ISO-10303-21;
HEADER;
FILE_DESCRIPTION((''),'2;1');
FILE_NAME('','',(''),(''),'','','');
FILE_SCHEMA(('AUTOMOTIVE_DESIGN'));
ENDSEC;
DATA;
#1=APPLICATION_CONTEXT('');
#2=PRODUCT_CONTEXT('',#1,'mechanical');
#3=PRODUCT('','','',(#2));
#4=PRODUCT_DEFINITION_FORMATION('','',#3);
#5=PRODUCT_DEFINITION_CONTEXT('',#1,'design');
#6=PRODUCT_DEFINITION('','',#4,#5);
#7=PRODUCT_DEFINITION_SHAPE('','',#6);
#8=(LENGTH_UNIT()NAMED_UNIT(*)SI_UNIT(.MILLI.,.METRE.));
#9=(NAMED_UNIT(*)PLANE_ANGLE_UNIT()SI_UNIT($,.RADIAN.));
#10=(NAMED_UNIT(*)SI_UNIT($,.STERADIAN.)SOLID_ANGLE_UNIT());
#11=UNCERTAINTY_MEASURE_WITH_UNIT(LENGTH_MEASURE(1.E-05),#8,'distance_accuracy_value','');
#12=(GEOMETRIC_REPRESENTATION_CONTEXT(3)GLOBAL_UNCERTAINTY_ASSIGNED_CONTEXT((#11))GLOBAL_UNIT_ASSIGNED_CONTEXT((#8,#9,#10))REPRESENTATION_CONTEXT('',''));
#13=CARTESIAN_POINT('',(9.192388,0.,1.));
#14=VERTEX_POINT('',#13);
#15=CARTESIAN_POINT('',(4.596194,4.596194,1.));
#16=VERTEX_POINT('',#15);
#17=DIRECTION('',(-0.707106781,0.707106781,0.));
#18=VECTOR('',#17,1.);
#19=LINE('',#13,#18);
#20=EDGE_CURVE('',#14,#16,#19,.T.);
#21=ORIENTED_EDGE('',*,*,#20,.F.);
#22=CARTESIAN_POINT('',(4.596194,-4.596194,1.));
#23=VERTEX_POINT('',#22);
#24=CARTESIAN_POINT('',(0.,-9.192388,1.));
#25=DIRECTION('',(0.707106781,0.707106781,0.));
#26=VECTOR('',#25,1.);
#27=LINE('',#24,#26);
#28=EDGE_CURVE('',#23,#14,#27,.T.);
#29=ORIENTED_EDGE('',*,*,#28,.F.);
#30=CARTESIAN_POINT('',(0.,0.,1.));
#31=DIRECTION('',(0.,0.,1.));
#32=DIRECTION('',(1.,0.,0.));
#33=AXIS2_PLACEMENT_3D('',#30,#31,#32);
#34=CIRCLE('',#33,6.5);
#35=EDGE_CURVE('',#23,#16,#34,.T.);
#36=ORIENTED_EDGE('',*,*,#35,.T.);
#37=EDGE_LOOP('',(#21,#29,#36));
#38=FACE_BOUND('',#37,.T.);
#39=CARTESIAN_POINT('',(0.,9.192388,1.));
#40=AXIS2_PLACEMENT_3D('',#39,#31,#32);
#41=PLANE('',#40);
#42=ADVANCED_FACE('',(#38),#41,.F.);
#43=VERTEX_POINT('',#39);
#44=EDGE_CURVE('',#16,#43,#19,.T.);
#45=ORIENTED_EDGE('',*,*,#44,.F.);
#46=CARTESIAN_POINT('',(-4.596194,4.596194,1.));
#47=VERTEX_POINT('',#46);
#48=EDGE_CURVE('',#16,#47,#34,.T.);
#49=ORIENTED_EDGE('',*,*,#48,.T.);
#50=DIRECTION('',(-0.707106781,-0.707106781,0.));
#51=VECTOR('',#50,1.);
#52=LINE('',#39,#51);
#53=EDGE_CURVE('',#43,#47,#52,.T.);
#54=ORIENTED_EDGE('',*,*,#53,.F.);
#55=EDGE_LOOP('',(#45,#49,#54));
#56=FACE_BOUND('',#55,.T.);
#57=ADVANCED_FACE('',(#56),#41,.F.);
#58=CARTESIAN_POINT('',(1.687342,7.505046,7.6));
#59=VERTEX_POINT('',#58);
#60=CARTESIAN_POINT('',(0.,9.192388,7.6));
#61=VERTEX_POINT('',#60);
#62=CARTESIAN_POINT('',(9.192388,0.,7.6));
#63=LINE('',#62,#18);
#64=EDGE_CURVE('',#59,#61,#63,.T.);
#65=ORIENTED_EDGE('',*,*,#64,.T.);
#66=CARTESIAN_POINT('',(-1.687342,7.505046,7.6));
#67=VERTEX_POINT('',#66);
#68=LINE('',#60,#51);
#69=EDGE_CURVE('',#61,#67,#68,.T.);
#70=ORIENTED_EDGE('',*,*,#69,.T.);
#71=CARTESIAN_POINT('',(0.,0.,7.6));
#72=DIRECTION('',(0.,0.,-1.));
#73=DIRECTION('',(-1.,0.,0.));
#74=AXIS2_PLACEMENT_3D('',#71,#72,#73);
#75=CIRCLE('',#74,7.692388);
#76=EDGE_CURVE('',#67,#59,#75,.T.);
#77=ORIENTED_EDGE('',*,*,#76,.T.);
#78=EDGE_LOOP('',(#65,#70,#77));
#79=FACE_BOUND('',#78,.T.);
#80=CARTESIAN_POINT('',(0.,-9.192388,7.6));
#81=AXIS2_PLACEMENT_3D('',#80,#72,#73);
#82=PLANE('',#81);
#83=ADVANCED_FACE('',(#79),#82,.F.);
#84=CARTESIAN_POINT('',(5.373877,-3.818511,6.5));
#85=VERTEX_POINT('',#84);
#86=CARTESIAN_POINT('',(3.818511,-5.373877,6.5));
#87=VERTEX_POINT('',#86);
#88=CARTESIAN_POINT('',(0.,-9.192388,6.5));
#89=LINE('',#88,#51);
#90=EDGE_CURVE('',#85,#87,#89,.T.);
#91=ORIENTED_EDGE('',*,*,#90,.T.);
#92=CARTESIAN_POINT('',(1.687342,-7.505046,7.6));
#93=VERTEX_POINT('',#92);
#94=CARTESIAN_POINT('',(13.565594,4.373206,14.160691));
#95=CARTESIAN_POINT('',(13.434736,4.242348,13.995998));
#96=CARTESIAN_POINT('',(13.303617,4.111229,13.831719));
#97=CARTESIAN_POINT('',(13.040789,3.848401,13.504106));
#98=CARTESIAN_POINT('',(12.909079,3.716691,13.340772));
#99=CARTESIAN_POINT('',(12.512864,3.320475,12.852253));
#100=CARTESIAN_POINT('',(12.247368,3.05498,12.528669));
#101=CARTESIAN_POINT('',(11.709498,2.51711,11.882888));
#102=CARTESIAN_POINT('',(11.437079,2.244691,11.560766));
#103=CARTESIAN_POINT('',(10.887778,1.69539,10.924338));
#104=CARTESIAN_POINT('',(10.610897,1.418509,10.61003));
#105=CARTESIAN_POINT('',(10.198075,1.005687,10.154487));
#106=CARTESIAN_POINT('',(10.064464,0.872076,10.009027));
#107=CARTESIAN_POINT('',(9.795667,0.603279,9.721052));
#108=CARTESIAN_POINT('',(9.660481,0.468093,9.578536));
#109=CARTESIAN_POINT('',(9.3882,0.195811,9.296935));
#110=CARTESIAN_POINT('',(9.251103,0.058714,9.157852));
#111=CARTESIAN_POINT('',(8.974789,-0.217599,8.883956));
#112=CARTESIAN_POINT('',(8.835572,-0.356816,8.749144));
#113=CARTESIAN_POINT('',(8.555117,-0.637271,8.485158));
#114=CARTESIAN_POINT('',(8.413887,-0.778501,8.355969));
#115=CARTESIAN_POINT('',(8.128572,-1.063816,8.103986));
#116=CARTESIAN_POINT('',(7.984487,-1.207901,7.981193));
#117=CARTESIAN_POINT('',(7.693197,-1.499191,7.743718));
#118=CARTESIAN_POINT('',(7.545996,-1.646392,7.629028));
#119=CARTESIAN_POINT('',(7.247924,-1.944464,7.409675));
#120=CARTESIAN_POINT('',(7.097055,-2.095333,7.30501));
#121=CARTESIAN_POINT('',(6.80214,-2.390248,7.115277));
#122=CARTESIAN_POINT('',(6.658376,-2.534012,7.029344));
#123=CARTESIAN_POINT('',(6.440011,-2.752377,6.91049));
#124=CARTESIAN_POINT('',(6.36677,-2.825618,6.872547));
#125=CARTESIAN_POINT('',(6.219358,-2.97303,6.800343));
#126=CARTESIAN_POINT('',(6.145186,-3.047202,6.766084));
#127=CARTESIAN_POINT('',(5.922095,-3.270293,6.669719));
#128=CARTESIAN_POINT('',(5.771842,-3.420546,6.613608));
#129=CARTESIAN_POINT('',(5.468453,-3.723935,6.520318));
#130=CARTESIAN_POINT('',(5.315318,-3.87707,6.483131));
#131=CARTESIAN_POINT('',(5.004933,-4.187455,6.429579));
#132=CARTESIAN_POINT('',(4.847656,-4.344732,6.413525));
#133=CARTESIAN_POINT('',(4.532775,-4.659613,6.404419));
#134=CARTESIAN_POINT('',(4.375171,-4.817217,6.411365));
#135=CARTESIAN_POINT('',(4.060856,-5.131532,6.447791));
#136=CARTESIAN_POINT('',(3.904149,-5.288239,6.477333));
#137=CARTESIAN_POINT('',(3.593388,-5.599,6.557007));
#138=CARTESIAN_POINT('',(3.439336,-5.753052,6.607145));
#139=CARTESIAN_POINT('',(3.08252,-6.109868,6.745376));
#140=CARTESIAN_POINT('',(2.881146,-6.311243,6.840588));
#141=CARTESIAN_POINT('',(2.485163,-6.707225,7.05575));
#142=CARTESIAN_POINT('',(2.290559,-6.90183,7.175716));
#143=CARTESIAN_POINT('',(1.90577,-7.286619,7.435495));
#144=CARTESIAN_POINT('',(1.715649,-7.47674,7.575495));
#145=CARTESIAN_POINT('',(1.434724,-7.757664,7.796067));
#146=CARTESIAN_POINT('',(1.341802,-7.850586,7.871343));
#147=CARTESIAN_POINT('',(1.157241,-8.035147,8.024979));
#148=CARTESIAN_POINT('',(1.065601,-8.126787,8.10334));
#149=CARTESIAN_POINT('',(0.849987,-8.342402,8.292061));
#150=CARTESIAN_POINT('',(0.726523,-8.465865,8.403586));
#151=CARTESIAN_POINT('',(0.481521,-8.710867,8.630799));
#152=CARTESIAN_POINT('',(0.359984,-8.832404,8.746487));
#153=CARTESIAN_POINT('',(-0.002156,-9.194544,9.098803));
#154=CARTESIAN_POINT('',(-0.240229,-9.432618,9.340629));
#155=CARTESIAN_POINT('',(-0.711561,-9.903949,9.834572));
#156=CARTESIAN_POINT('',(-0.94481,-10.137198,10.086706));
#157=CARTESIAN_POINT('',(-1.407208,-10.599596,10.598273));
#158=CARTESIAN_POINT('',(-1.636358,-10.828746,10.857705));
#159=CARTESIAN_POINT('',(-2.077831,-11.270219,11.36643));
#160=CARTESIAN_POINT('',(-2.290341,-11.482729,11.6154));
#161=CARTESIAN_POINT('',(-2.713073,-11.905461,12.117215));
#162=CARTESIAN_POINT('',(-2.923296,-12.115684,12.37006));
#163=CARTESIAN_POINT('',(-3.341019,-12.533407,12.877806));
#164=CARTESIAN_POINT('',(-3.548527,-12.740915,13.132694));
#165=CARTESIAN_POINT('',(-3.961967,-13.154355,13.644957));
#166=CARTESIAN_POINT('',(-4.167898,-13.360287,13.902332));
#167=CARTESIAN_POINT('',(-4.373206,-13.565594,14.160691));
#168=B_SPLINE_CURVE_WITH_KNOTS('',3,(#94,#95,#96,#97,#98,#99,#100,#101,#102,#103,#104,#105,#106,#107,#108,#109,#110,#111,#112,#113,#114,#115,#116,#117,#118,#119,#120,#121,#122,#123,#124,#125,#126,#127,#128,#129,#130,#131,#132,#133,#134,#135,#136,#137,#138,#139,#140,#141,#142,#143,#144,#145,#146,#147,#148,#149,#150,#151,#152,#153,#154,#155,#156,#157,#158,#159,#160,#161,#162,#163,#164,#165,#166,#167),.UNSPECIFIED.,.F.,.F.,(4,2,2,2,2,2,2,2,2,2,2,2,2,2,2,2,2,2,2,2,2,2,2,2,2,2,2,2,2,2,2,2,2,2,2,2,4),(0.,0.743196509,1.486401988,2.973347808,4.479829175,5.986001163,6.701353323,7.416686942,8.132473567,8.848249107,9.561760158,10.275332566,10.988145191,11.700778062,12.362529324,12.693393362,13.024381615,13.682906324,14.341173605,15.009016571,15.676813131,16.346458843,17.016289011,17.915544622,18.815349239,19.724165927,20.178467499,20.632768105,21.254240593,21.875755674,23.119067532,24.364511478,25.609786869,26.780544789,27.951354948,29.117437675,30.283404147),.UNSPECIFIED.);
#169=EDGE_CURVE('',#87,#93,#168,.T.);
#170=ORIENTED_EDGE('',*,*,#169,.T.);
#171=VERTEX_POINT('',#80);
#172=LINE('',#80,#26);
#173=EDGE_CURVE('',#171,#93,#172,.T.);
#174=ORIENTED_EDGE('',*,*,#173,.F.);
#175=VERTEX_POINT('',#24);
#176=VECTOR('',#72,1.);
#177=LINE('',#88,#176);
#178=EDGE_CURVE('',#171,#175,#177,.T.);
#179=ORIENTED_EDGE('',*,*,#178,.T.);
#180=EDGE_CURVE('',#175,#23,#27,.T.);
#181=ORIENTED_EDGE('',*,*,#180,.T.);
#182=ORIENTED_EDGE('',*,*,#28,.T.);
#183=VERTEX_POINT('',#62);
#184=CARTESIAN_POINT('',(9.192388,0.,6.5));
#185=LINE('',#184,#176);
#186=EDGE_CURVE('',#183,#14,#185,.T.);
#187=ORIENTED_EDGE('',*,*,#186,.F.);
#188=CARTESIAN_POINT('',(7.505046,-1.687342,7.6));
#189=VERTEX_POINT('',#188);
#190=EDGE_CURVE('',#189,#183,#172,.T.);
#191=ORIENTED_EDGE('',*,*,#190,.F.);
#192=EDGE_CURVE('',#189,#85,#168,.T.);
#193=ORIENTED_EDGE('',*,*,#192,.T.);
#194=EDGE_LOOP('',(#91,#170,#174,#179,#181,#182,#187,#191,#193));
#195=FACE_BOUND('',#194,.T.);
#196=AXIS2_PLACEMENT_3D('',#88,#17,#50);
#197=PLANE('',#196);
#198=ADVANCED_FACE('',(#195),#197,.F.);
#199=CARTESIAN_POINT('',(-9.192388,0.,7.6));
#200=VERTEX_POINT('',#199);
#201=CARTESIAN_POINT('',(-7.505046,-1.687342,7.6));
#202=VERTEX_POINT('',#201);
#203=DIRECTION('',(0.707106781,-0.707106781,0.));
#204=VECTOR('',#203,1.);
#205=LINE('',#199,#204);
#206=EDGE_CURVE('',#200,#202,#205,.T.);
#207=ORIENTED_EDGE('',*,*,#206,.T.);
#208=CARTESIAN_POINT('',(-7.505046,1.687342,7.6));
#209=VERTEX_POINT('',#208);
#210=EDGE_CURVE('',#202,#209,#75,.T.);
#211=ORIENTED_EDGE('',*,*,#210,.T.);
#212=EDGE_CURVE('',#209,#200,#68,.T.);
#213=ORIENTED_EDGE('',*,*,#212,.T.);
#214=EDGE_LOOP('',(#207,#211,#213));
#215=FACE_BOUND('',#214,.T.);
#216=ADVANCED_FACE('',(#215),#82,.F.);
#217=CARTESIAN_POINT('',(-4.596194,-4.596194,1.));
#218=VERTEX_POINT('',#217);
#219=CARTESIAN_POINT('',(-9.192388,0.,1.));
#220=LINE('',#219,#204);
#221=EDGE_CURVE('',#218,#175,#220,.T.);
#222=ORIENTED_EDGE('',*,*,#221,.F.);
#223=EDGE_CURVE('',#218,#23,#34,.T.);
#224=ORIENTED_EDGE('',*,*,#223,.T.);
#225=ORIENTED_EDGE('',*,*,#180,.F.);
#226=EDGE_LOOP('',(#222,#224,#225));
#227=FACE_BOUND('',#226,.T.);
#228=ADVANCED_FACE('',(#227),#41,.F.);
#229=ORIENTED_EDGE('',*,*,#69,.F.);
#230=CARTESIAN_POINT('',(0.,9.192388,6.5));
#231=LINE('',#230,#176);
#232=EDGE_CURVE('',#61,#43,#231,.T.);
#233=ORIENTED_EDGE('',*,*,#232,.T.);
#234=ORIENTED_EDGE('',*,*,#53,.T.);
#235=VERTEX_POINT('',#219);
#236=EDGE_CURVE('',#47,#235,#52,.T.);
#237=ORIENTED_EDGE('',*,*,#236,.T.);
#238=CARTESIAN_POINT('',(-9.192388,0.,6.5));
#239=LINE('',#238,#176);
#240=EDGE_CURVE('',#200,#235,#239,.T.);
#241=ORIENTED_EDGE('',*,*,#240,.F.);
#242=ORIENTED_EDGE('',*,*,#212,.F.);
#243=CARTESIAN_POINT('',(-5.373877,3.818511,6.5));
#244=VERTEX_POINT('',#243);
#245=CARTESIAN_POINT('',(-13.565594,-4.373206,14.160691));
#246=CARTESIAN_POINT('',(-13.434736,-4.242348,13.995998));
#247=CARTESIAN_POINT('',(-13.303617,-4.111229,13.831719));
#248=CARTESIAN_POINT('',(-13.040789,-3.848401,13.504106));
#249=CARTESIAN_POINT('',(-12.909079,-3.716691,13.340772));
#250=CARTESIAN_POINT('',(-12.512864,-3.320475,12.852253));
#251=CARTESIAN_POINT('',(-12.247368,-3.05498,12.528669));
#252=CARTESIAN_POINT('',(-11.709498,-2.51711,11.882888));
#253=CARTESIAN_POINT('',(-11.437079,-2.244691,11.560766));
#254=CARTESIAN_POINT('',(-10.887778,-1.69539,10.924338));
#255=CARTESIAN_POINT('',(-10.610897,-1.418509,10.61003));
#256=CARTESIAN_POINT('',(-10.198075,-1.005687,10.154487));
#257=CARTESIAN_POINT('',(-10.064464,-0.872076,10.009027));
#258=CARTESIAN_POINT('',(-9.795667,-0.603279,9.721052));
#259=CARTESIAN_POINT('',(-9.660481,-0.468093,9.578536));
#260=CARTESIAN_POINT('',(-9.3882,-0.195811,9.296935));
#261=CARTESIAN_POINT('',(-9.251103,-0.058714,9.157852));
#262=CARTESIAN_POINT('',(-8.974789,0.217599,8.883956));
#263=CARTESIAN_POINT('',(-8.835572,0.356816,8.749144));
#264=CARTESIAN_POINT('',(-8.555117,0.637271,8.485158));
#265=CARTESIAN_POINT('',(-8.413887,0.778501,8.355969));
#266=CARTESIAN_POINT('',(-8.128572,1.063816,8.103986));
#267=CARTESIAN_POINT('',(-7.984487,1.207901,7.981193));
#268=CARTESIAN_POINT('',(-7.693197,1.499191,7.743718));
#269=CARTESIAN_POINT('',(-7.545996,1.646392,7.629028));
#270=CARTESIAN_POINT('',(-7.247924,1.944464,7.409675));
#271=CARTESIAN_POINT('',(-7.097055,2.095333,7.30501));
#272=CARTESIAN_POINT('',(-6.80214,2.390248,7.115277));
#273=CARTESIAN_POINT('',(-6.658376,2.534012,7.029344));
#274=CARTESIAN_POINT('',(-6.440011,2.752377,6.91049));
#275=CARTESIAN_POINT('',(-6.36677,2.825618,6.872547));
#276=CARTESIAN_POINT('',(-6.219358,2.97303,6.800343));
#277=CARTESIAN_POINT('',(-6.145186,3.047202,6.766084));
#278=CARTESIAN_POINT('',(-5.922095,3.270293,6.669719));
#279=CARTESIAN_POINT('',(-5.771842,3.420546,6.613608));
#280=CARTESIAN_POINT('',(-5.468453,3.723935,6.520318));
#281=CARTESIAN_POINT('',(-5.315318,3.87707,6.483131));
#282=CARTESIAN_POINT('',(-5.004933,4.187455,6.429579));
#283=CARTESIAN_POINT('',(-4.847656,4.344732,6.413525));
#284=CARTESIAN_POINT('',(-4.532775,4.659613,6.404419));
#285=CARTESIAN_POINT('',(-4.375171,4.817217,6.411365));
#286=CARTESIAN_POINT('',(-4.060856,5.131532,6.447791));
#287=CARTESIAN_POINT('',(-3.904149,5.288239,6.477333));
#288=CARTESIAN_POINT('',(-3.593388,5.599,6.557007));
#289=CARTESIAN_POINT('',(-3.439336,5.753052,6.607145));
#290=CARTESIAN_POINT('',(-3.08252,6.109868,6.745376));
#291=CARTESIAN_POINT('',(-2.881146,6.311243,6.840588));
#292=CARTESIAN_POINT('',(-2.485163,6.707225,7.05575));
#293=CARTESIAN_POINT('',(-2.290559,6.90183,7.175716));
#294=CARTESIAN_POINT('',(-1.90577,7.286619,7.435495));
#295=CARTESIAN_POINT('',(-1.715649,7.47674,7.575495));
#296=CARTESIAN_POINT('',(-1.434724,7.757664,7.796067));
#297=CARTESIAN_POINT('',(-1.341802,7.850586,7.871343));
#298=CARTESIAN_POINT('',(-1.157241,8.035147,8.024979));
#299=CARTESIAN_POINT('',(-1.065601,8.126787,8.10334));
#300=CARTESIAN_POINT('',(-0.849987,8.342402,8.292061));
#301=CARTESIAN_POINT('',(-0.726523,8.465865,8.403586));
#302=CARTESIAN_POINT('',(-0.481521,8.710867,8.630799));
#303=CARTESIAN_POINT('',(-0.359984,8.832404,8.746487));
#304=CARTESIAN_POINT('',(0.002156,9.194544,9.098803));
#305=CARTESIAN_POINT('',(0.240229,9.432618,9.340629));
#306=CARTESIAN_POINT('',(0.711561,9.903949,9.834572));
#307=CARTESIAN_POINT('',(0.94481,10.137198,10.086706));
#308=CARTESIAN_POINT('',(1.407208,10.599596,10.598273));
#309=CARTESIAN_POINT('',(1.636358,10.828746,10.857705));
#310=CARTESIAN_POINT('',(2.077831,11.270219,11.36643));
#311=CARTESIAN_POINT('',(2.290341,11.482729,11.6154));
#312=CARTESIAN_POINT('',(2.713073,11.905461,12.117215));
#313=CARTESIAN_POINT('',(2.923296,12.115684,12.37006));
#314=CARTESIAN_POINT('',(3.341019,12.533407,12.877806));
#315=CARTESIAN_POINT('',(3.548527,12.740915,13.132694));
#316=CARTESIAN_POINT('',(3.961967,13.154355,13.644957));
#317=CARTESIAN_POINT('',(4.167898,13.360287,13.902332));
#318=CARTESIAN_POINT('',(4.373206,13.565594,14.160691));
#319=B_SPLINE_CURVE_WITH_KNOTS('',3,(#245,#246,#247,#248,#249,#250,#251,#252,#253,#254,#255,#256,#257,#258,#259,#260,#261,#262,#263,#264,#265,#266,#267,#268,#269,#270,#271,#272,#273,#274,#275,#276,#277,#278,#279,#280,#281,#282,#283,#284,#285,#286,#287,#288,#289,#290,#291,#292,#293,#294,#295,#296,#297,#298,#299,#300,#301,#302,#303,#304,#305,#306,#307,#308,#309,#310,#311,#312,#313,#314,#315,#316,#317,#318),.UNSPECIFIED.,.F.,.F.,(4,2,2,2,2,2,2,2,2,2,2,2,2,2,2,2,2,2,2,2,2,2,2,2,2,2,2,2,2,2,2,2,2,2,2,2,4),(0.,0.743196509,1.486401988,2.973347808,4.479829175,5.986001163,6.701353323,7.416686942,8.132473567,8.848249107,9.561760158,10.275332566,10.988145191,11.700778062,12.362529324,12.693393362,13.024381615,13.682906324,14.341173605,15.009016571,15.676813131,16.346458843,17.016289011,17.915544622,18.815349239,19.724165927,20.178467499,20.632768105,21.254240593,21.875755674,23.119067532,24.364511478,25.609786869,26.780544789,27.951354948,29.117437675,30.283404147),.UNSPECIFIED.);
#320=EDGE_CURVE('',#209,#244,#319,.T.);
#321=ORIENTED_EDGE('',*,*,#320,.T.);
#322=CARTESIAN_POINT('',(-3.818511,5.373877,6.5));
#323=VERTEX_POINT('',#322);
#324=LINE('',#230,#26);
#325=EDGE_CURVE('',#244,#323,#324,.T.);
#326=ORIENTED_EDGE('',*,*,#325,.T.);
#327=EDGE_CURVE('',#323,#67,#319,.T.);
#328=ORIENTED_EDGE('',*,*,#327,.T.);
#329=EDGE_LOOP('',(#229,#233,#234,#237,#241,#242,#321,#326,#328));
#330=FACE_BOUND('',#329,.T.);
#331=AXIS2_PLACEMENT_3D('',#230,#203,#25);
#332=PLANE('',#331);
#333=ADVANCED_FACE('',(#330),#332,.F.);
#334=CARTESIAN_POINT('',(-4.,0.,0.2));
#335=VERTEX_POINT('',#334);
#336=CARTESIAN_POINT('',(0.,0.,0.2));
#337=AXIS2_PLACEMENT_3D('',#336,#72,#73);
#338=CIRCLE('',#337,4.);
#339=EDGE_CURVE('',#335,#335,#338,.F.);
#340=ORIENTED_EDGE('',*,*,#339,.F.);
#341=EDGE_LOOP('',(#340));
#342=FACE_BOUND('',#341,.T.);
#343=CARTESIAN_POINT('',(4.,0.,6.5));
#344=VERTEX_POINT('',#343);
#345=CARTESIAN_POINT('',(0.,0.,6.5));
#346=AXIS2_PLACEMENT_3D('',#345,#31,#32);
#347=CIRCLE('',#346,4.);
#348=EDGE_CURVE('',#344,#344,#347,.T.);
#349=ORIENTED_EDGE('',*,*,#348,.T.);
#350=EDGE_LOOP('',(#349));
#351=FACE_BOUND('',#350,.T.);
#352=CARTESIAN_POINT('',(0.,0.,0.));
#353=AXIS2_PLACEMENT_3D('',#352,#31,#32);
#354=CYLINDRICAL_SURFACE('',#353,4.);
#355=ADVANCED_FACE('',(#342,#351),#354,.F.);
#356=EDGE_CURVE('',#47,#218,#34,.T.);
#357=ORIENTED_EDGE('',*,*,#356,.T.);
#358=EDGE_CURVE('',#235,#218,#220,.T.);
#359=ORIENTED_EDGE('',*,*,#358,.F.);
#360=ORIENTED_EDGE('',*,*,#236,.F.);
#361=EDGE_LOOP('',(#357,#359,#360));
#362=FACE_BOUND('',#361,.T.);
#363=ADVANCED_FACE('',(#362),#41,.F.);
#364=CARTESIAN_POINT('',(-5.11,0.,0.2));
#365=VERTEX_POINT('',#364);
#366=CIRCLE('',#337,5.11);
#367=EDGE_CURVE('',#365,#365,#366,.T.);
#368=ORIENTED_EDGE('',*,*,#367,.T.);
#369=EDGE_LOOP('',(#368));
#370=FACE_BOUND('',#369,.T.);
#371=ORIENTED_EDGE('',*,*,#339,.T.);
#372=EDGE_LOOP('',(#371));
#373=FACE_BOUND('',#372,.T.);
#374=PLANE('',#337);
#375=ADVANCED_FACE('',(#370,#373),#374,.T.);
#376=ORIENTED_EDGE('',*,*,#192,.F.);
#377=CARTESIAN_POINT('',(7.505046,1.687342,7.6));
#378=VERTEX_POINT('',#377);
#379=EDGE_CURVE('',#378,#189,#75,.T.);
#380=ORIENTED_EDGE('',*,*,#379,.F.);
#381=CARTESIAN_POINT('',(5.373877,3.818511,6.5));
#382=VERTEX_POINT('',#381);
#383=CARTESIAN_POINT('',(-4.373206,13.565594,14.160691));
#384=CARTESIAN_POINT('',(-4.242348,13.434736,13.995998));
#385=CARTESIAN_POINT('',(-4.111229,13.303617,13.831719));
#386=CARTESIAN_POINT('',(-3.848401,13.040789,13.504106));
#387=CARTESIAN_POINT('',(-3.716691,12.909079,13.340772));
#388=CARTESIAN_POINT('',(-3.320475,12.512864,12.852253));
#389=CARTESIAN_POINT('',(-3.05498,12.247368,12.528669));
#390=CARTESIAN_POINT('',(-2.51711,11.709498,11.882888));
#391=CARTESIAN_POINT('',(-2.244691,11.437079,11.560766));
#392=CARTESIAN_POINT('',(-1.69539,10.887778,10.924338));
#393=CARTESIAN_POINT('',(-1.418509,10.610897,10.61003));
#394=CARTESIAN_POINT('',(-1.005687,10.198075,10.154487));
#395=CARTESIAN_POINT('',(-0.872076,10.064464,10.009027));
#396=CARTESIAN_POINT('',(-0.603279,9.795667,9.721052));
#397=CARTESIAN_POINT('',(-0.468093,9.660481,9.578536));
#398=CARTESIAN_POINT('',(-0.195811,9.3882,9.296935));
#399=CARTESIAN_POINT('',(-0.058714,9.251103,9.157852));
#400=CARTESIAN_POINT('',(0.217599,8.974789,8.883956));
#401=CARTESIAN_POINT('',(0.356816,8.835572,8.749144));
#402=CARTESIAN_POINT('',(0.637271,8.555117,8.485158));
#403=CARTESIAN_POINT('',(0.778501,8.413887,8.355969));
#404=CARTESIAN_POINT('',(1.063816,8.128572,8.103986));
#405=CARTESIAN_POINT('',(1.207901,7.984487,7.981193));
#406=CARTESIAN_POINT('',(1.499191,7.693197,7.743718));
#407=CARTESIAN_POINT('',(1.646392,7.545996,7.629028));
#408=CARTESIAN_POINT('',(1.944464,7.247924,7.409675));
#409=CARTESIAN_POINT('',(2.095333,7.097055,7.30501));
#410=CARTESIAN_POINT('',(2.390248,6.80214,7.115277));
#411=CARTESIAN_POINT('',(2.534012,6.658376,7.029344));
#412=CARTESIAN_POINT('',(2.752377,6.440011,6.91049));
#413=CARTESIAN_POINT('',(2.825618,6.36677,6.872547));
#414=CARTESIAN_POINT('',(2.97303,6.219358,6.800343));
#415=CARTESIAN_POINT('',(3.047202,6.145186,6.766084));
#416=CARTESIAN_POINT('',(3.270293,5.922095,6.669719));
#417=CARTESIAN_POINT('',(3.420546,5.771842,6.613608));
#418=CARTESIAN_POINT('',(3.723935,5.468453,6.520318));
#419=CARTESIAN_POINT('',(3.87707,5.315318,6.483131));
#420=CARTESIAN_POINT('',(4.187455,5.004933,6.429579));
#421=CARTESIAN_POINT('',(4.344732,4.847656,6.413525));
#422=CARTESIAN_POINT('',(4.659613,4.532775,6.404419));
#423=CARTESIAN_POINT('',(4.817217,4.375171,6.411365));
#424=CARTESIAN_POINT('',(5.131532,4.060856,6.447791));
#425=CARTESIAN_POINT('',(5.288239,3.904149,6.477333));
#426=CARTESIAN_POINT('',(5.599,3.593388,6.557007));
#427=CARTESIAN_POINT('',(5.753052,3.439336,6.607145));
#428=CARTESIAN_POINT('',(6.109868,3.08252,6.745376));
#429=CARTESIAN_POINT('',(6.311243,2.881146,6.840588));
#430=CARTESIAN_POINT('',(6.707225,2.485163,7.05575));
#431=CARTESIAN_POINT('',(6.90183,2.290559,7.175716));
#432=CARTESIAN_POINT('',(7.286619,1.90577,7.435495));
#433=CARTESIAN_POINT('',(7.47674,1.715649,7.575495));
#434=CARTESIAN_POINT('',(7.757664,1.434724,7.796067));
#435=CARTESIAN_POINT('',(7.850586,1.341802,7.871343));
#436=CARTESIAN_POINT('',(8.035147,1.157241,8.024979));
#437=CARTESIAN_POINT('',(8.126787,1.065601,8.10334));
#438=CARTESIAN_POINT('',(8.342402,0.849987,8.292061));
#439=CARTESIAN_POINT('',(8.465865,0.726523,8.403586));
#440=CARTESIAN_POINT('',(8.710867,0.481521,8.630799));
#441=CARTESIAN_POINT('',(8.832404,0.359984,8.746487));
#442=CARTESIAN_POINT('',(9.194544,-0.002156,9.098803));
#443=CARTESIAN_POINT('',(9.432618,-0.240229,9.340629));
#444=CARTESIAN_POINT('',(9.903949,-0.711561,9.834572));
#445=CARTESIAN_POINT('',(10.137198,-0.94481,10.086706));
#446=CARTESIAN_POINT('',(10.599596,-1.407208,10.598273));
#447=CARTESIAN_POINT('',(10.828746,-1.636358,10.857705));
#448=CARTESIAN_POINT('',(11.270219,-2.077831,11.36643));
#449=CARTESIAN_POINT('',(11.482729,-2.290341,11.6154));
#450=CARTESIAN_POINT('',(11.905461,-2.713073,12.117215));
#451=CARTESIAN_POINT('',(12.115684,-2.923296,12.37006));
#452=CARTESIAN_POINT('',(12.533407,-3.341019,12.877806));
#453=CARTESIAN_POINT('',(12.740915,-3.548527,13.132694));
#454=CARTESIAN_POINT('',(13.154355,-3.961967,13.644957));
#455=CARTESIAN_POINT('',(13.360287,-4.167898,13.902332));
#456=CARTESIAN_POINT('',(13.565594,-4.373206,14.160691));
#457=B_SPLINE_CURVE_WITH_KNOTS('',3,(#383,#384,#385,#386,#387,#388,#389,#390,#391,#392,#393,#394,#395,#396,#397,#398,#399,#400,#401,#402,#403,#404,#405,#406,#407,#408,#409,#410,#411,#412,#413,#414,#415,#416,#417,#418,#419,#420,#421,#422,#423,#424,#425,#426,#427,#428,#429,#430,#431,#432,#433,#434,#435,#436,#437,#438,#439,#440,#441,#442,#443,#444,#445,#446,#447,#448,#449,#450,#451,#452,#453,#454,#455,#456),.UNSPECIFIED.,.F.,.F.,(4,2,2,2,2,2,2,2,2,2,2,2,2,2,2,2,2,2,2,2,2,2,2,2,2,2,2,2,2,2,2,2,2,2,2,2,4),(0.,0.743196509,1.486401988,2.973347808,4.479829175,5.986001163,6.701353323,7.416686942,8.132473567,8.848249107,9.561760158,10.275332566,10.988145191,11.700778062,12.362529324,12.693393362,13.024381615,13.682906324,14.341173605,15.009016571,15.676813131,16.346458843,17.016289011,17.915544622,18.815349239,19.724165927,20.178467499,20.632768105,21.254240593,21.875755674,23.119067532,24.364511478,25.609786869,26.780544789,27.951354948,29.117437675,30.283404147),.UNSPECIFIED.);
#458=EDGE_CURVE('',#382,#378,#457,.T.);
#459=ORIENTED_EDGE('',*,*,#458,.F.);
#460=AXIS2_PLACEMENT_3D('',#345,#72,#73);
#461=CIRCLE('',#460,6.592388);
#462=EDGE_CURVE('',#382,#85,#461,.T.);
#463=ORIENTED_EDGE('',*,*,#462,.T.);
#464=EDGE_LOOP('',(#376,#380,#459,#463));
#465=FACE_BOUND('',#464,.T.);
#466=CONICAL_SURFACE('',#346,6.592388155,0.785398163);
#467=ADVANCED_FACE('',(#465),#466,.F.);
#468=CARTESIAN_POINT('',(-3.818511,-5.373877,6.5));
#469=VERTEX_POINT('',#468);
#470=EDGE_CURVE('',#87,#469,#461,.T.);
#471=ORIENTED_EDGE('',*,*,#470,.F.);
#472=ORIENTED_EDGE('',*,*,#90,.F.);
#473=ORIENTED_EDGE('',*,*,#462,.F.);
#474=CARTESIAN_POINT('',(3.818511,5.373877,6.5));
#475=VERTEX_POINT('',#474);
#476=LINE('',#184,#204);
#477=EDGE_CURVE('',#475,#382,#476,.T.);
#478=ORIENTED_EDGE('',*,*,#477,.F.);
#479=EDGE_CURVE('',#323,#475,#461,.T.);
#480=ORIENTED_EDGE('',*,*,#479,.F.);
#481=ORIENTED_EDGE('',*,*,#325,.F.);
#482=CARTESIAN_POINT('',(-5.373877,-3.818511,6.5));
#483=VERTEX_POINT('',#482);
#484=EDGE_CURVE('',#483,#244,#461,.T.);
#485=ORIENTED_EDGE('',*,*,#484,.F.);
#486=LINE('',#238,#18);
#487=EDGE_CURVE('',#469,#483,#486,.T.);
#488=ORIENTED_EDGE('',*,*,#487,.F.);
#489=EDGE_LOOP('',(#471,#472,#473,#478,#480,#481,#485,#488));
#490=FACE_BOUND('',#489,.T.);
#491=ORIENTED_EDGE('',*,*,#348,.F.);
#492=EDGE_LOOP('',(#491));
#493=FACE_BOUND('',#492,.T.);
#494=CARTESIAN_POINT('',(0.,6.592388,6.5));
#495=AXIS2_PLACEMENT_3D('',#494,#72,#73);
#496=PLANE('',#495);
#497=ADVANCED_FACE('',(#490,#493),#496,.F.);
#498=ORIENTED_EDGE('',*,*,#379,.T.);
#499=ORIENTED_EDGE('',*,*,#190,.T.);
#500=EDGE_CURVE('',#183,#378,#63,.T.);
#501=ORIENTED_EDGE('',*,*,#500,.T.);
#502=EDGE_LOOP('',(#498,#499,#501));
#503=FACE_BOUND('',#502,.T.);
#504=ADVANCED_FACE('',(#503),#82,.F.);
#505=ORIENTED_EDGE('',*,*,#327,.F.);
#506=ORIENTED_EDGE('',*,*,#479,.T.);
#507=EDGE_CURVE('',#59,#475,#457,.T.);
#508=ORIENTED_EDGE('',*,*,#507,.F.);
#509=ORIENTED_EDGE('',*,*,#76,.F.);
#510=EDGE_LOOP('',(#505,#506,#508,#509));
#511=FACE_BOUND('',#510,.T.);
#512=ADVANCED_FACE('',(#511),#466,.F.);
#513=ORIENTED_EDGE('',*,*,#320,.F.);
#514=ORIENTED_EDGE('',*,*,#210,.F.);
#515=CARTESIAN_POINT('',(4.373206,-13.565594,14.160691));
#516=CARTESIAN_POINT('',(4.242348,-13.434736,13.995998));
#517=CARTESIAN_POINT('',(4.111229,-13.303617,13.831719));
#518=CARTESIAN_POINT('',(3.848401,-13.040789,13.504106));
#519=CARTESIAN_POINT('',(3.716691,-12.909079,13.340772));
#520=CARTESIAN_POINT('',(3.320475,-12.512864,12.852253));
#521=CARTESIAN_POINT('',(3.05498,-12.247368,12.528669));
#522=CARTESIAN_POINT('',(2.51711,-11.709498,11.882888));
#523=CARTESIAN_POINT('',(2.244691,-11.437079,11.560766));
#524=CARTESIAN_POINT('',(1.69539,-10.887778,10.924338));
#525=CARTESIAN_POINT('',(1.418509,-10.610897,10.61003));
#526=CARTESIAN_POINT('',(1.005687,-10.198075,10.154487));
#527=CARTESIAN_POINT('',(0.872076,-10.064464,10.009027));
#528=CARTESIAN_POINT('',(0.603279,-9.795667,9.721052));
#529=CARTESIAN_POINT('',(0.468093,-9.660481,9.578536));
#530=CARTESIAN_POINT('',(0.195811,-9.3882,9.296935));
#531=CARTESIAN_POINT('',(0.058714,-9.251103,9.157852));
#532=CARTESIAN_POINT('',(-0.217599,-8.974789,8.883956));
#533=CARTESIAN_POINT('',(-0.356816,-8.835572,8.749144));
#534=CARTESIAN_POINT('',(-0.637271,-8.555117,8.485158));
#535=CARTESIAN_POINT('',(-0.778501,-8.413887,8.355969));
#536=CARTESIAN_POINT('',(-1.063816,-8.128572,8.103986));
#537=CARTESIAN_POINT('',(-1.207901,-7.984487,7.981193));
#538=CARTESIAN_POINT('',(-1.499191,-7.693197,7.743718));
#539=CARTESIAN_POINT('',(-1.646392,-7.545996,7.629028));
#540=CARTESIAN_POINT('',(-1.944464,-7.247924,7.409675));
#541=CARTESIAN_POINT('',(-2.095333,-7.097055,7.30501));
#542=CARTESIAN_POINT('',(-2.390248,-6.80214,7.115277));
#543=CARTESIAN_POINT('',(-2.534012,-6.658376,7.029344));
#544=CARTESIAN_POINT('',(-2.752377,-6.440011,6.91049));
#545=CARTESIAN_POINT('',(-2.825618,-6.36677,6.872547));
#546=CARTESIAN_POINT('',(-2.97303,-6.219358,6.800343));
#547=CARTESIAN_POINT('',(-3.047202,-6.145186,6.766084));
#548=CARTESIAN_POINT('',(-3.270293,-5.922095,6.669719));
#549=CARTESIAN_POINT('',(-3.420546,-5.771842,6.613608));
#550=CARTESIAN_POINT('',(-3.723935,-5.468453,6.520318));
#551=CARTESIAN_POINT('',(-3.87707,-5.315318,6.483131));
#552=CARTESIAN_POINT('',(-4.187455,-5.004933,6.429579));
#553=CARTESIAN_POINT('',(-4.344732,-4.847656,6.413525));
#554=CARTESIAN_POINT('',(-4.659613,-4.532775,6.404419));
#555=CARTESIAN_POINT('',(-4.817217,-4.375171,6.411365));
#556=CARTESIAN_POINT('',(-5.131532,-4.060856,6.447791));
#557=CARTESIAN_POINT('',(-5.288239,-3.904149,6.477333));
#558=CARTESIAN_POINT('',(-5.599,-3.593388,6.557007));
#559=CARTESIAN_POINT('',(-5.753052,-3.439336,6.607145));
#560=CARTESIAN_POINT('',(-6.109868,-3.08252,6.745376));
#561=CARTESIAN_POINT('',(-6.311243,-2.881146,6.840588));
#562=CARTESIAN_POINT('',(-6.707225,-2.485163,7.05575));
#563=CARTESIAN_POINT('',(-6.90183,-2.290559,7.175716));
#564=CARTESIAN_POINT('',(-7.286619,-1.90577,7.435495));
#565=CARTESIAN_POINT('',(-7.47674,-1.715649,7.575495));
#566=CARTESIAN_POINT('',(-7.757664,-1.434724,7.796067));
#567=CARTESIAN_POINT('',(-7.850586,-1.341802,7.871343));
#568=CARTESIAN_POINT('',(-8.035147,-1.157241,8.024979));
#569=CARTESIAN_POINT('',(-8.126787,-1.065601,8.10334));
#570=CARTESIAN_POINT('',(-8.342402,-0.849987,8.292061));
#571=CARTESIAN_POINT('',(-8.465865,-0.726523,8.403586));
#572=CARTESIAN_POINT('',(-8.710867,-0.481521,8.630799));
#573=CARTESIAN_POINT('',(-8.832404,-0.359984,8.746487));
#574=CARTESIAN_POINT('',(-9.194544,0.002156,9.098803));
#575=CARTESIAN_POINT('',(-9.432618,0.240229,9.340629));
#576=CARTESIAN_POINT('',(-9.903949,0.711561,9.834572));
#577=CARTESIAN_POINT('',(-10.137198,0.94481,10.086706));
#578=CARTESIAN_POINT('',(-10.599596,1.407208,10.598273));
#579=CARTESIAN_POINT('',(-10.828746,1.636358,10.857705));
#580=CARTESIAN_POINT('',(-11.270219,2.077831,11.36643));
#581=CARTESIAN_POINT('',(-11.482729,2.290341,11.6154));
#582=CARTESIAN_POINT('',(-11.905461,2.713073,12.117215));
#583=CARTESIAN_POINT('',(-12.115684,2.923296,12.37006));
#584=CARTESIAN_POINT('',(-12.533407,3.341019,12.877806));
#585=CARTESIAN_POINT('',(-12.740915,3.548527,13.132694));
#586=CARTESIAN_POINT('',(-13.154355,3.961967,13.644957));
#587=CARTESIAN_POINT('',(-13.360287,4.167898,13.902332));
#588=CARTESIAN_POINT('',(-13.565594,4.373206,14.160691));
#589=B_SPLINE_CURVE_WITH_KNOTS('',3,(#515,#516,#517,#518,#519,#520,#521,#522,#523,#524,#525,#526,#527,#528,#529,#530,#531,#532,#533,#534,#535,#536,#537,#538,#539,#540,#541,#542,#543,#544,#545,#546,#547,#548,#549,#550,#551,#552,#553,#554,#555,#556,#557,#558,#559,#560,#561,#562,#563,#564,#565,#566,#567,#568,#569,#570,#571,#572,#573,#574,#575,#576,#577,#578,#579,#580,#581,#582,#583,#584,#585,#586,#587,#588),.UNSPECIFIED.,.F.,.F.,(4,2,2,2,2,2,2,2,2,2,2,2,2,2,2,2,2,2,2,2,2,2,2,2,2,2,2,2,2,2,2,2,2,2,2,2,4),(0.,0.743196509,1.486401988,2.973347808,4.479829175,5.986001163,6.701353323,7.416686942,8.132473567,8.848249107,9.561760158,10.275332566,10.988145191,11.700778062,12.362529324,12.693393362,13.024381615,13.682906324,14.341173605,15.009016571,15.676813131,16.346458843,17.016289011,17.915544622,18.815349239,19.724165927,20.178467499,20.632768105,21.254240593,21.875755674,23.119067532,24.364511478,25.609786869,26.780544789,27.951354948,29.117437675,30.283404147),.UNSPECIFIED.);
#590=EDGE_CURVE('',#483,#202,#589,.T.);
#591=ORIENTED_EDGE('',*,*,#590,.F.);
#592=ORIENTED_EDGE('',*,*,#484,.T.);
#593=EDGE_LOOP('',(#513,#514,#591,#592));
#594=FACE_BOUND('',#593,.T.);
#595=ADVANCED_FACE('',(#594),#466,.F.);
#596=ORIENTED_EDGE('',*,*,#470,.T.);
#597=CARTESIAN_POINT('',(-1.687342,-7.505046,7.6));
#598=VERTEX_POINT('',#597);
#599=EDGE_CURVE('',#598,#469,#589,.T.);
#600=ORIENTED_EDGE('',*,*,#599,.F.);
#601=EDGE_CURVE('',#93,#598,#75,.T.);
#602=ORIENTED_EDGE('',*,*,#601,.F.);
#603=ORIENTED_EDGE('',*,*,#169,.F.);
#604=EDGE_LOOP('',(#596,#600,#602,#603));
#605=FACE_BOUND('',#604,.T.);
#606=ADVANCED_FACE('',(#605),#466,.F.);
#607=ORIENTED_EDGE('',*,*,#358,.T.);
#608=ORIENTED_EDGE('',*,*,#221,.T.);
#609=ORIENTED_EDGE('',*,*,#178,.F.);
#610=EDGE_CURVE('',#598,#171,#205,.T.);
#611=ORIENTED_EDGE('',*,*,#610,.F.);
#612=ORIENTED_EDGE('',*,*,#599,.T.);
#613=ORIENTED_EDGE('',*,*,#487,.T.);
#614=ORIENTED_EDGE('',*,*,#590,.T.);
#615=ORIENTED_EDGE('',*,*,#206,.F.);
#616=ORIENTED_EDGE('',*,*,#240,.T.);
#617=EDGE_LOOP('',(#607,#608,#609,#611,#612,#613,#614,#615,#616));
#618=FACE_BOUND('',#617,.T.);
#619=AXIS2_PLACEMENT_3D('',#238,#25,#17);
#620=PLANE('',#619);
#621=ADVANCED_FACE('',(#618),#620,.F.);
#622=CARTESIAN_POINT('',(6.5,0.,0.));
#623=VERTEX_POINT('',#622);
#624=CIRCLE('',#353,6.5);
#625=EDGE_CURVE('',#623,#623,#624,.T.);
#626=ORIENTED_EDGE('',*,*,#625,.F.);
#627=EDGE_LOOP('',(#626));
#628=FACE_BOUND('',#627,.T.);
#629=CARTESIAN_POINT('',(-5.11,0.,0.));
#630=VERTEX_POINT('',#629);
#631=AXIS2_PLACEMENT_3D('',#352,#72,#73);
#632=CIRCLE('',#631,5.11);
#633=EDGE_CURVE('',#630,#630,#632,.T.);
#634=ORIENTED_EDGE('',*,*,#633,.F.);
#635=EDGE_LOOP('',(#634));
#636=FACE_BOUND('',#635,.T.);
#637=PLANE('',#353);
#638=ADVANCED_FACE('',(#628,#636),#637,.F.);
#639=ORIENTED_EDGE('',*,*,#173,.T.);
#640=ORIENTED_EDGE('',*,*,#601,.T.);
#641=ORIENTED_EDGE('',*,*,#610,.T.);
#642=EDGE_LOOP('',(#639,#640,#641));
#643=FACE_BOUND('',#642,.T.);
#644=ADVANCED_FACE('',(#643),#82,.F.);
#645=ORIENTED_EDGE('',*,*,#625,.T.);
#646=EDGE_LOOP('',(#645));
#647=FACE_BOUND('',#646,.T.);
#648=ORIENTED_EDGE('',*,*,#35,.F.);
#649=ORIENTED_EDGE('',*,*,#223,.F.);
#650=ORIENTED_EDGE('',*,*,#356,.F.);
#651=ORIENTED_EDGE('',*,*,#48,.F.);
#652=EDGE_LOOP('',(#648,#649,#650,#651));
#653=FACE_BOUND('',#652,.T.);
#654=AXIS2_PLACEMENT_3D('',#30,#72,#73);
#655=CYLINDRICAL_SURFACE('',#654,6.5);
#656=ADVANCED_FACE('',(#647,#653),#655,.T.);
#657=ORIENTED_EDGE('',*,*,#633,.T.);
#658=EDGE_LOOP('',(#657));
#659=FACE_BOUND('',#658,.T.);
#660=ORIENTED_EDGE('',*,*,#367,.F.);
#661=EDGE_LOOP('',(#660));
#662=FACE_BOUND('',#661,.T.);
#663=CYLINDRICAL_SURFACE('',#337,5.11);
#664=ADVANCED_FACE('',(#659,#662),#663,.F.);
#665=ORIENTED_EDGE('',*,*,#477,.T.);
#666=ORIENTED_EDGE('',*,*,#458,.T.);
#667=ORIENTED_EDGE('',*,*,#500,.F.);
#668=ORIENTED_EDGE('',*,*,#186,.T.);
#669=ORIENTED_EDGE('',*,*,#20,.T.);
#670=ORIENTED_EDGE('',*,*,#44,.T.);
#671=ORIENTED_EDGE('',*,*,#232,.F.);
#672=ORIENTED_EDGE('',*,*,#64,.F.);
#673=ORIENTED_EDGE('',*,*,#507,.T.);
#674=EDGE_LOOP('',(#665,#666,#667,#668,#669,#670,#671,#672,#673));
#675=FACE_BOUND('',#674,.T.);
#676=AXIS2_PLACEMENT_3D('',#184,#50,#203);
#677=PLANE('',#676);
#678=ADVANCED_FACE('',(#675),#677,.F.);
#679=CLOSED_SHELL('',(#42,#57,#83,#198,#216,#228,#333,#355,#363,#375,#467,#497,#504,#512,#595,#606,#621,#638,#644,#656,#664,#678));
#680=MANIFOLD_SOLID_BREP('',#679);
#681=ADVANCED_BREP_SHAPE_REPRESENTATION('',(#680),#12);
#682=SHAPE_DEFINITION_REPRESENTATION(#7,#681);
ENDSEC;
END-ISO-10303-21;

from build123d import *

# Parameters (mm, degrees)
SKETCH_1_R          = 6.5
EXTRUDE_1_DEPTH     = 1
EXTRUDE_2_DEPTH     = 5.5
EXTRUDE_3_DEPTH     = 1.1
SKETCH_5_R          = 4
CUT_EXTRUDE_1_DEPTH = 7.5
SKETCH_6_R          = 5.11
CUT_EXTRUDE_2_DEPTH = 0.2


with BuildPart() as part:
    # 草图1 → 拉伸1 (new body)
    with BuildSketch(Plane.XY):
        Circle(SKETCH_1_R)
    extrude(amount=EXTRUDE_1_DEPTH)

    # 草图2 → 拉伸2 (add)
    with BuildSketch(Plane.XY.offset(1)):
        Polygon((0, 9.192388155), (-9.192388155, 0), (0, -9.192388155), (9.192388155, 0), align=None)
    extrude(amount=EXTRUDE_2_DEPTH)

    # 草图3 → 拉伸3 (add)
    with BuildSketch(Plane.XY.offset(6.5)):
        Polygon((9.192388155, 0), (0, 9.192388155), (-9.192388155, 0), (0, -9.192388155), align=None)
    extrude(amount=EXTRUDE_3_DEPTH)

    # 草图4 → 切除-旋转1 (revolve, cut)
    with BuildSketch(Plane(origin=(0, 0, 0), x_dir=(0, 0, -1), z_dir=(1, 0, 0))):
        Polygon((-6.5, 6.592388155), (-6.5, 0), (-7.6, 0), (-7.6, 7.692388155), align=None)
    revolve(axis=Axis((0, 0, 0), (0, 0, 1)), mode=Mode.SUBTRACT)

    # 草图5 → 切除-拉伸1 (cut, through all)
    with BuildSketch(Plane.XY.offset(6.5)):
        Circle(SKETCH_5_R)
    extrude(amount=-CUT_EXTRUDE_1_DEPTH, mode=Mode.SUBTRACT)

    # 草图6 → 切除-拉伸2 (cut)
    with BuildSketch(Plane(origin=(0, 0, 0), x_dir=(-1, 0, 0), z_dir=(0, 0, -1))):
        Circle(SKETCH_6_R)
    extrude(amount=-CUT_EXTRUDE_2_DEPTH, mode=Mode.SUBTRACT)


solid = part.part
